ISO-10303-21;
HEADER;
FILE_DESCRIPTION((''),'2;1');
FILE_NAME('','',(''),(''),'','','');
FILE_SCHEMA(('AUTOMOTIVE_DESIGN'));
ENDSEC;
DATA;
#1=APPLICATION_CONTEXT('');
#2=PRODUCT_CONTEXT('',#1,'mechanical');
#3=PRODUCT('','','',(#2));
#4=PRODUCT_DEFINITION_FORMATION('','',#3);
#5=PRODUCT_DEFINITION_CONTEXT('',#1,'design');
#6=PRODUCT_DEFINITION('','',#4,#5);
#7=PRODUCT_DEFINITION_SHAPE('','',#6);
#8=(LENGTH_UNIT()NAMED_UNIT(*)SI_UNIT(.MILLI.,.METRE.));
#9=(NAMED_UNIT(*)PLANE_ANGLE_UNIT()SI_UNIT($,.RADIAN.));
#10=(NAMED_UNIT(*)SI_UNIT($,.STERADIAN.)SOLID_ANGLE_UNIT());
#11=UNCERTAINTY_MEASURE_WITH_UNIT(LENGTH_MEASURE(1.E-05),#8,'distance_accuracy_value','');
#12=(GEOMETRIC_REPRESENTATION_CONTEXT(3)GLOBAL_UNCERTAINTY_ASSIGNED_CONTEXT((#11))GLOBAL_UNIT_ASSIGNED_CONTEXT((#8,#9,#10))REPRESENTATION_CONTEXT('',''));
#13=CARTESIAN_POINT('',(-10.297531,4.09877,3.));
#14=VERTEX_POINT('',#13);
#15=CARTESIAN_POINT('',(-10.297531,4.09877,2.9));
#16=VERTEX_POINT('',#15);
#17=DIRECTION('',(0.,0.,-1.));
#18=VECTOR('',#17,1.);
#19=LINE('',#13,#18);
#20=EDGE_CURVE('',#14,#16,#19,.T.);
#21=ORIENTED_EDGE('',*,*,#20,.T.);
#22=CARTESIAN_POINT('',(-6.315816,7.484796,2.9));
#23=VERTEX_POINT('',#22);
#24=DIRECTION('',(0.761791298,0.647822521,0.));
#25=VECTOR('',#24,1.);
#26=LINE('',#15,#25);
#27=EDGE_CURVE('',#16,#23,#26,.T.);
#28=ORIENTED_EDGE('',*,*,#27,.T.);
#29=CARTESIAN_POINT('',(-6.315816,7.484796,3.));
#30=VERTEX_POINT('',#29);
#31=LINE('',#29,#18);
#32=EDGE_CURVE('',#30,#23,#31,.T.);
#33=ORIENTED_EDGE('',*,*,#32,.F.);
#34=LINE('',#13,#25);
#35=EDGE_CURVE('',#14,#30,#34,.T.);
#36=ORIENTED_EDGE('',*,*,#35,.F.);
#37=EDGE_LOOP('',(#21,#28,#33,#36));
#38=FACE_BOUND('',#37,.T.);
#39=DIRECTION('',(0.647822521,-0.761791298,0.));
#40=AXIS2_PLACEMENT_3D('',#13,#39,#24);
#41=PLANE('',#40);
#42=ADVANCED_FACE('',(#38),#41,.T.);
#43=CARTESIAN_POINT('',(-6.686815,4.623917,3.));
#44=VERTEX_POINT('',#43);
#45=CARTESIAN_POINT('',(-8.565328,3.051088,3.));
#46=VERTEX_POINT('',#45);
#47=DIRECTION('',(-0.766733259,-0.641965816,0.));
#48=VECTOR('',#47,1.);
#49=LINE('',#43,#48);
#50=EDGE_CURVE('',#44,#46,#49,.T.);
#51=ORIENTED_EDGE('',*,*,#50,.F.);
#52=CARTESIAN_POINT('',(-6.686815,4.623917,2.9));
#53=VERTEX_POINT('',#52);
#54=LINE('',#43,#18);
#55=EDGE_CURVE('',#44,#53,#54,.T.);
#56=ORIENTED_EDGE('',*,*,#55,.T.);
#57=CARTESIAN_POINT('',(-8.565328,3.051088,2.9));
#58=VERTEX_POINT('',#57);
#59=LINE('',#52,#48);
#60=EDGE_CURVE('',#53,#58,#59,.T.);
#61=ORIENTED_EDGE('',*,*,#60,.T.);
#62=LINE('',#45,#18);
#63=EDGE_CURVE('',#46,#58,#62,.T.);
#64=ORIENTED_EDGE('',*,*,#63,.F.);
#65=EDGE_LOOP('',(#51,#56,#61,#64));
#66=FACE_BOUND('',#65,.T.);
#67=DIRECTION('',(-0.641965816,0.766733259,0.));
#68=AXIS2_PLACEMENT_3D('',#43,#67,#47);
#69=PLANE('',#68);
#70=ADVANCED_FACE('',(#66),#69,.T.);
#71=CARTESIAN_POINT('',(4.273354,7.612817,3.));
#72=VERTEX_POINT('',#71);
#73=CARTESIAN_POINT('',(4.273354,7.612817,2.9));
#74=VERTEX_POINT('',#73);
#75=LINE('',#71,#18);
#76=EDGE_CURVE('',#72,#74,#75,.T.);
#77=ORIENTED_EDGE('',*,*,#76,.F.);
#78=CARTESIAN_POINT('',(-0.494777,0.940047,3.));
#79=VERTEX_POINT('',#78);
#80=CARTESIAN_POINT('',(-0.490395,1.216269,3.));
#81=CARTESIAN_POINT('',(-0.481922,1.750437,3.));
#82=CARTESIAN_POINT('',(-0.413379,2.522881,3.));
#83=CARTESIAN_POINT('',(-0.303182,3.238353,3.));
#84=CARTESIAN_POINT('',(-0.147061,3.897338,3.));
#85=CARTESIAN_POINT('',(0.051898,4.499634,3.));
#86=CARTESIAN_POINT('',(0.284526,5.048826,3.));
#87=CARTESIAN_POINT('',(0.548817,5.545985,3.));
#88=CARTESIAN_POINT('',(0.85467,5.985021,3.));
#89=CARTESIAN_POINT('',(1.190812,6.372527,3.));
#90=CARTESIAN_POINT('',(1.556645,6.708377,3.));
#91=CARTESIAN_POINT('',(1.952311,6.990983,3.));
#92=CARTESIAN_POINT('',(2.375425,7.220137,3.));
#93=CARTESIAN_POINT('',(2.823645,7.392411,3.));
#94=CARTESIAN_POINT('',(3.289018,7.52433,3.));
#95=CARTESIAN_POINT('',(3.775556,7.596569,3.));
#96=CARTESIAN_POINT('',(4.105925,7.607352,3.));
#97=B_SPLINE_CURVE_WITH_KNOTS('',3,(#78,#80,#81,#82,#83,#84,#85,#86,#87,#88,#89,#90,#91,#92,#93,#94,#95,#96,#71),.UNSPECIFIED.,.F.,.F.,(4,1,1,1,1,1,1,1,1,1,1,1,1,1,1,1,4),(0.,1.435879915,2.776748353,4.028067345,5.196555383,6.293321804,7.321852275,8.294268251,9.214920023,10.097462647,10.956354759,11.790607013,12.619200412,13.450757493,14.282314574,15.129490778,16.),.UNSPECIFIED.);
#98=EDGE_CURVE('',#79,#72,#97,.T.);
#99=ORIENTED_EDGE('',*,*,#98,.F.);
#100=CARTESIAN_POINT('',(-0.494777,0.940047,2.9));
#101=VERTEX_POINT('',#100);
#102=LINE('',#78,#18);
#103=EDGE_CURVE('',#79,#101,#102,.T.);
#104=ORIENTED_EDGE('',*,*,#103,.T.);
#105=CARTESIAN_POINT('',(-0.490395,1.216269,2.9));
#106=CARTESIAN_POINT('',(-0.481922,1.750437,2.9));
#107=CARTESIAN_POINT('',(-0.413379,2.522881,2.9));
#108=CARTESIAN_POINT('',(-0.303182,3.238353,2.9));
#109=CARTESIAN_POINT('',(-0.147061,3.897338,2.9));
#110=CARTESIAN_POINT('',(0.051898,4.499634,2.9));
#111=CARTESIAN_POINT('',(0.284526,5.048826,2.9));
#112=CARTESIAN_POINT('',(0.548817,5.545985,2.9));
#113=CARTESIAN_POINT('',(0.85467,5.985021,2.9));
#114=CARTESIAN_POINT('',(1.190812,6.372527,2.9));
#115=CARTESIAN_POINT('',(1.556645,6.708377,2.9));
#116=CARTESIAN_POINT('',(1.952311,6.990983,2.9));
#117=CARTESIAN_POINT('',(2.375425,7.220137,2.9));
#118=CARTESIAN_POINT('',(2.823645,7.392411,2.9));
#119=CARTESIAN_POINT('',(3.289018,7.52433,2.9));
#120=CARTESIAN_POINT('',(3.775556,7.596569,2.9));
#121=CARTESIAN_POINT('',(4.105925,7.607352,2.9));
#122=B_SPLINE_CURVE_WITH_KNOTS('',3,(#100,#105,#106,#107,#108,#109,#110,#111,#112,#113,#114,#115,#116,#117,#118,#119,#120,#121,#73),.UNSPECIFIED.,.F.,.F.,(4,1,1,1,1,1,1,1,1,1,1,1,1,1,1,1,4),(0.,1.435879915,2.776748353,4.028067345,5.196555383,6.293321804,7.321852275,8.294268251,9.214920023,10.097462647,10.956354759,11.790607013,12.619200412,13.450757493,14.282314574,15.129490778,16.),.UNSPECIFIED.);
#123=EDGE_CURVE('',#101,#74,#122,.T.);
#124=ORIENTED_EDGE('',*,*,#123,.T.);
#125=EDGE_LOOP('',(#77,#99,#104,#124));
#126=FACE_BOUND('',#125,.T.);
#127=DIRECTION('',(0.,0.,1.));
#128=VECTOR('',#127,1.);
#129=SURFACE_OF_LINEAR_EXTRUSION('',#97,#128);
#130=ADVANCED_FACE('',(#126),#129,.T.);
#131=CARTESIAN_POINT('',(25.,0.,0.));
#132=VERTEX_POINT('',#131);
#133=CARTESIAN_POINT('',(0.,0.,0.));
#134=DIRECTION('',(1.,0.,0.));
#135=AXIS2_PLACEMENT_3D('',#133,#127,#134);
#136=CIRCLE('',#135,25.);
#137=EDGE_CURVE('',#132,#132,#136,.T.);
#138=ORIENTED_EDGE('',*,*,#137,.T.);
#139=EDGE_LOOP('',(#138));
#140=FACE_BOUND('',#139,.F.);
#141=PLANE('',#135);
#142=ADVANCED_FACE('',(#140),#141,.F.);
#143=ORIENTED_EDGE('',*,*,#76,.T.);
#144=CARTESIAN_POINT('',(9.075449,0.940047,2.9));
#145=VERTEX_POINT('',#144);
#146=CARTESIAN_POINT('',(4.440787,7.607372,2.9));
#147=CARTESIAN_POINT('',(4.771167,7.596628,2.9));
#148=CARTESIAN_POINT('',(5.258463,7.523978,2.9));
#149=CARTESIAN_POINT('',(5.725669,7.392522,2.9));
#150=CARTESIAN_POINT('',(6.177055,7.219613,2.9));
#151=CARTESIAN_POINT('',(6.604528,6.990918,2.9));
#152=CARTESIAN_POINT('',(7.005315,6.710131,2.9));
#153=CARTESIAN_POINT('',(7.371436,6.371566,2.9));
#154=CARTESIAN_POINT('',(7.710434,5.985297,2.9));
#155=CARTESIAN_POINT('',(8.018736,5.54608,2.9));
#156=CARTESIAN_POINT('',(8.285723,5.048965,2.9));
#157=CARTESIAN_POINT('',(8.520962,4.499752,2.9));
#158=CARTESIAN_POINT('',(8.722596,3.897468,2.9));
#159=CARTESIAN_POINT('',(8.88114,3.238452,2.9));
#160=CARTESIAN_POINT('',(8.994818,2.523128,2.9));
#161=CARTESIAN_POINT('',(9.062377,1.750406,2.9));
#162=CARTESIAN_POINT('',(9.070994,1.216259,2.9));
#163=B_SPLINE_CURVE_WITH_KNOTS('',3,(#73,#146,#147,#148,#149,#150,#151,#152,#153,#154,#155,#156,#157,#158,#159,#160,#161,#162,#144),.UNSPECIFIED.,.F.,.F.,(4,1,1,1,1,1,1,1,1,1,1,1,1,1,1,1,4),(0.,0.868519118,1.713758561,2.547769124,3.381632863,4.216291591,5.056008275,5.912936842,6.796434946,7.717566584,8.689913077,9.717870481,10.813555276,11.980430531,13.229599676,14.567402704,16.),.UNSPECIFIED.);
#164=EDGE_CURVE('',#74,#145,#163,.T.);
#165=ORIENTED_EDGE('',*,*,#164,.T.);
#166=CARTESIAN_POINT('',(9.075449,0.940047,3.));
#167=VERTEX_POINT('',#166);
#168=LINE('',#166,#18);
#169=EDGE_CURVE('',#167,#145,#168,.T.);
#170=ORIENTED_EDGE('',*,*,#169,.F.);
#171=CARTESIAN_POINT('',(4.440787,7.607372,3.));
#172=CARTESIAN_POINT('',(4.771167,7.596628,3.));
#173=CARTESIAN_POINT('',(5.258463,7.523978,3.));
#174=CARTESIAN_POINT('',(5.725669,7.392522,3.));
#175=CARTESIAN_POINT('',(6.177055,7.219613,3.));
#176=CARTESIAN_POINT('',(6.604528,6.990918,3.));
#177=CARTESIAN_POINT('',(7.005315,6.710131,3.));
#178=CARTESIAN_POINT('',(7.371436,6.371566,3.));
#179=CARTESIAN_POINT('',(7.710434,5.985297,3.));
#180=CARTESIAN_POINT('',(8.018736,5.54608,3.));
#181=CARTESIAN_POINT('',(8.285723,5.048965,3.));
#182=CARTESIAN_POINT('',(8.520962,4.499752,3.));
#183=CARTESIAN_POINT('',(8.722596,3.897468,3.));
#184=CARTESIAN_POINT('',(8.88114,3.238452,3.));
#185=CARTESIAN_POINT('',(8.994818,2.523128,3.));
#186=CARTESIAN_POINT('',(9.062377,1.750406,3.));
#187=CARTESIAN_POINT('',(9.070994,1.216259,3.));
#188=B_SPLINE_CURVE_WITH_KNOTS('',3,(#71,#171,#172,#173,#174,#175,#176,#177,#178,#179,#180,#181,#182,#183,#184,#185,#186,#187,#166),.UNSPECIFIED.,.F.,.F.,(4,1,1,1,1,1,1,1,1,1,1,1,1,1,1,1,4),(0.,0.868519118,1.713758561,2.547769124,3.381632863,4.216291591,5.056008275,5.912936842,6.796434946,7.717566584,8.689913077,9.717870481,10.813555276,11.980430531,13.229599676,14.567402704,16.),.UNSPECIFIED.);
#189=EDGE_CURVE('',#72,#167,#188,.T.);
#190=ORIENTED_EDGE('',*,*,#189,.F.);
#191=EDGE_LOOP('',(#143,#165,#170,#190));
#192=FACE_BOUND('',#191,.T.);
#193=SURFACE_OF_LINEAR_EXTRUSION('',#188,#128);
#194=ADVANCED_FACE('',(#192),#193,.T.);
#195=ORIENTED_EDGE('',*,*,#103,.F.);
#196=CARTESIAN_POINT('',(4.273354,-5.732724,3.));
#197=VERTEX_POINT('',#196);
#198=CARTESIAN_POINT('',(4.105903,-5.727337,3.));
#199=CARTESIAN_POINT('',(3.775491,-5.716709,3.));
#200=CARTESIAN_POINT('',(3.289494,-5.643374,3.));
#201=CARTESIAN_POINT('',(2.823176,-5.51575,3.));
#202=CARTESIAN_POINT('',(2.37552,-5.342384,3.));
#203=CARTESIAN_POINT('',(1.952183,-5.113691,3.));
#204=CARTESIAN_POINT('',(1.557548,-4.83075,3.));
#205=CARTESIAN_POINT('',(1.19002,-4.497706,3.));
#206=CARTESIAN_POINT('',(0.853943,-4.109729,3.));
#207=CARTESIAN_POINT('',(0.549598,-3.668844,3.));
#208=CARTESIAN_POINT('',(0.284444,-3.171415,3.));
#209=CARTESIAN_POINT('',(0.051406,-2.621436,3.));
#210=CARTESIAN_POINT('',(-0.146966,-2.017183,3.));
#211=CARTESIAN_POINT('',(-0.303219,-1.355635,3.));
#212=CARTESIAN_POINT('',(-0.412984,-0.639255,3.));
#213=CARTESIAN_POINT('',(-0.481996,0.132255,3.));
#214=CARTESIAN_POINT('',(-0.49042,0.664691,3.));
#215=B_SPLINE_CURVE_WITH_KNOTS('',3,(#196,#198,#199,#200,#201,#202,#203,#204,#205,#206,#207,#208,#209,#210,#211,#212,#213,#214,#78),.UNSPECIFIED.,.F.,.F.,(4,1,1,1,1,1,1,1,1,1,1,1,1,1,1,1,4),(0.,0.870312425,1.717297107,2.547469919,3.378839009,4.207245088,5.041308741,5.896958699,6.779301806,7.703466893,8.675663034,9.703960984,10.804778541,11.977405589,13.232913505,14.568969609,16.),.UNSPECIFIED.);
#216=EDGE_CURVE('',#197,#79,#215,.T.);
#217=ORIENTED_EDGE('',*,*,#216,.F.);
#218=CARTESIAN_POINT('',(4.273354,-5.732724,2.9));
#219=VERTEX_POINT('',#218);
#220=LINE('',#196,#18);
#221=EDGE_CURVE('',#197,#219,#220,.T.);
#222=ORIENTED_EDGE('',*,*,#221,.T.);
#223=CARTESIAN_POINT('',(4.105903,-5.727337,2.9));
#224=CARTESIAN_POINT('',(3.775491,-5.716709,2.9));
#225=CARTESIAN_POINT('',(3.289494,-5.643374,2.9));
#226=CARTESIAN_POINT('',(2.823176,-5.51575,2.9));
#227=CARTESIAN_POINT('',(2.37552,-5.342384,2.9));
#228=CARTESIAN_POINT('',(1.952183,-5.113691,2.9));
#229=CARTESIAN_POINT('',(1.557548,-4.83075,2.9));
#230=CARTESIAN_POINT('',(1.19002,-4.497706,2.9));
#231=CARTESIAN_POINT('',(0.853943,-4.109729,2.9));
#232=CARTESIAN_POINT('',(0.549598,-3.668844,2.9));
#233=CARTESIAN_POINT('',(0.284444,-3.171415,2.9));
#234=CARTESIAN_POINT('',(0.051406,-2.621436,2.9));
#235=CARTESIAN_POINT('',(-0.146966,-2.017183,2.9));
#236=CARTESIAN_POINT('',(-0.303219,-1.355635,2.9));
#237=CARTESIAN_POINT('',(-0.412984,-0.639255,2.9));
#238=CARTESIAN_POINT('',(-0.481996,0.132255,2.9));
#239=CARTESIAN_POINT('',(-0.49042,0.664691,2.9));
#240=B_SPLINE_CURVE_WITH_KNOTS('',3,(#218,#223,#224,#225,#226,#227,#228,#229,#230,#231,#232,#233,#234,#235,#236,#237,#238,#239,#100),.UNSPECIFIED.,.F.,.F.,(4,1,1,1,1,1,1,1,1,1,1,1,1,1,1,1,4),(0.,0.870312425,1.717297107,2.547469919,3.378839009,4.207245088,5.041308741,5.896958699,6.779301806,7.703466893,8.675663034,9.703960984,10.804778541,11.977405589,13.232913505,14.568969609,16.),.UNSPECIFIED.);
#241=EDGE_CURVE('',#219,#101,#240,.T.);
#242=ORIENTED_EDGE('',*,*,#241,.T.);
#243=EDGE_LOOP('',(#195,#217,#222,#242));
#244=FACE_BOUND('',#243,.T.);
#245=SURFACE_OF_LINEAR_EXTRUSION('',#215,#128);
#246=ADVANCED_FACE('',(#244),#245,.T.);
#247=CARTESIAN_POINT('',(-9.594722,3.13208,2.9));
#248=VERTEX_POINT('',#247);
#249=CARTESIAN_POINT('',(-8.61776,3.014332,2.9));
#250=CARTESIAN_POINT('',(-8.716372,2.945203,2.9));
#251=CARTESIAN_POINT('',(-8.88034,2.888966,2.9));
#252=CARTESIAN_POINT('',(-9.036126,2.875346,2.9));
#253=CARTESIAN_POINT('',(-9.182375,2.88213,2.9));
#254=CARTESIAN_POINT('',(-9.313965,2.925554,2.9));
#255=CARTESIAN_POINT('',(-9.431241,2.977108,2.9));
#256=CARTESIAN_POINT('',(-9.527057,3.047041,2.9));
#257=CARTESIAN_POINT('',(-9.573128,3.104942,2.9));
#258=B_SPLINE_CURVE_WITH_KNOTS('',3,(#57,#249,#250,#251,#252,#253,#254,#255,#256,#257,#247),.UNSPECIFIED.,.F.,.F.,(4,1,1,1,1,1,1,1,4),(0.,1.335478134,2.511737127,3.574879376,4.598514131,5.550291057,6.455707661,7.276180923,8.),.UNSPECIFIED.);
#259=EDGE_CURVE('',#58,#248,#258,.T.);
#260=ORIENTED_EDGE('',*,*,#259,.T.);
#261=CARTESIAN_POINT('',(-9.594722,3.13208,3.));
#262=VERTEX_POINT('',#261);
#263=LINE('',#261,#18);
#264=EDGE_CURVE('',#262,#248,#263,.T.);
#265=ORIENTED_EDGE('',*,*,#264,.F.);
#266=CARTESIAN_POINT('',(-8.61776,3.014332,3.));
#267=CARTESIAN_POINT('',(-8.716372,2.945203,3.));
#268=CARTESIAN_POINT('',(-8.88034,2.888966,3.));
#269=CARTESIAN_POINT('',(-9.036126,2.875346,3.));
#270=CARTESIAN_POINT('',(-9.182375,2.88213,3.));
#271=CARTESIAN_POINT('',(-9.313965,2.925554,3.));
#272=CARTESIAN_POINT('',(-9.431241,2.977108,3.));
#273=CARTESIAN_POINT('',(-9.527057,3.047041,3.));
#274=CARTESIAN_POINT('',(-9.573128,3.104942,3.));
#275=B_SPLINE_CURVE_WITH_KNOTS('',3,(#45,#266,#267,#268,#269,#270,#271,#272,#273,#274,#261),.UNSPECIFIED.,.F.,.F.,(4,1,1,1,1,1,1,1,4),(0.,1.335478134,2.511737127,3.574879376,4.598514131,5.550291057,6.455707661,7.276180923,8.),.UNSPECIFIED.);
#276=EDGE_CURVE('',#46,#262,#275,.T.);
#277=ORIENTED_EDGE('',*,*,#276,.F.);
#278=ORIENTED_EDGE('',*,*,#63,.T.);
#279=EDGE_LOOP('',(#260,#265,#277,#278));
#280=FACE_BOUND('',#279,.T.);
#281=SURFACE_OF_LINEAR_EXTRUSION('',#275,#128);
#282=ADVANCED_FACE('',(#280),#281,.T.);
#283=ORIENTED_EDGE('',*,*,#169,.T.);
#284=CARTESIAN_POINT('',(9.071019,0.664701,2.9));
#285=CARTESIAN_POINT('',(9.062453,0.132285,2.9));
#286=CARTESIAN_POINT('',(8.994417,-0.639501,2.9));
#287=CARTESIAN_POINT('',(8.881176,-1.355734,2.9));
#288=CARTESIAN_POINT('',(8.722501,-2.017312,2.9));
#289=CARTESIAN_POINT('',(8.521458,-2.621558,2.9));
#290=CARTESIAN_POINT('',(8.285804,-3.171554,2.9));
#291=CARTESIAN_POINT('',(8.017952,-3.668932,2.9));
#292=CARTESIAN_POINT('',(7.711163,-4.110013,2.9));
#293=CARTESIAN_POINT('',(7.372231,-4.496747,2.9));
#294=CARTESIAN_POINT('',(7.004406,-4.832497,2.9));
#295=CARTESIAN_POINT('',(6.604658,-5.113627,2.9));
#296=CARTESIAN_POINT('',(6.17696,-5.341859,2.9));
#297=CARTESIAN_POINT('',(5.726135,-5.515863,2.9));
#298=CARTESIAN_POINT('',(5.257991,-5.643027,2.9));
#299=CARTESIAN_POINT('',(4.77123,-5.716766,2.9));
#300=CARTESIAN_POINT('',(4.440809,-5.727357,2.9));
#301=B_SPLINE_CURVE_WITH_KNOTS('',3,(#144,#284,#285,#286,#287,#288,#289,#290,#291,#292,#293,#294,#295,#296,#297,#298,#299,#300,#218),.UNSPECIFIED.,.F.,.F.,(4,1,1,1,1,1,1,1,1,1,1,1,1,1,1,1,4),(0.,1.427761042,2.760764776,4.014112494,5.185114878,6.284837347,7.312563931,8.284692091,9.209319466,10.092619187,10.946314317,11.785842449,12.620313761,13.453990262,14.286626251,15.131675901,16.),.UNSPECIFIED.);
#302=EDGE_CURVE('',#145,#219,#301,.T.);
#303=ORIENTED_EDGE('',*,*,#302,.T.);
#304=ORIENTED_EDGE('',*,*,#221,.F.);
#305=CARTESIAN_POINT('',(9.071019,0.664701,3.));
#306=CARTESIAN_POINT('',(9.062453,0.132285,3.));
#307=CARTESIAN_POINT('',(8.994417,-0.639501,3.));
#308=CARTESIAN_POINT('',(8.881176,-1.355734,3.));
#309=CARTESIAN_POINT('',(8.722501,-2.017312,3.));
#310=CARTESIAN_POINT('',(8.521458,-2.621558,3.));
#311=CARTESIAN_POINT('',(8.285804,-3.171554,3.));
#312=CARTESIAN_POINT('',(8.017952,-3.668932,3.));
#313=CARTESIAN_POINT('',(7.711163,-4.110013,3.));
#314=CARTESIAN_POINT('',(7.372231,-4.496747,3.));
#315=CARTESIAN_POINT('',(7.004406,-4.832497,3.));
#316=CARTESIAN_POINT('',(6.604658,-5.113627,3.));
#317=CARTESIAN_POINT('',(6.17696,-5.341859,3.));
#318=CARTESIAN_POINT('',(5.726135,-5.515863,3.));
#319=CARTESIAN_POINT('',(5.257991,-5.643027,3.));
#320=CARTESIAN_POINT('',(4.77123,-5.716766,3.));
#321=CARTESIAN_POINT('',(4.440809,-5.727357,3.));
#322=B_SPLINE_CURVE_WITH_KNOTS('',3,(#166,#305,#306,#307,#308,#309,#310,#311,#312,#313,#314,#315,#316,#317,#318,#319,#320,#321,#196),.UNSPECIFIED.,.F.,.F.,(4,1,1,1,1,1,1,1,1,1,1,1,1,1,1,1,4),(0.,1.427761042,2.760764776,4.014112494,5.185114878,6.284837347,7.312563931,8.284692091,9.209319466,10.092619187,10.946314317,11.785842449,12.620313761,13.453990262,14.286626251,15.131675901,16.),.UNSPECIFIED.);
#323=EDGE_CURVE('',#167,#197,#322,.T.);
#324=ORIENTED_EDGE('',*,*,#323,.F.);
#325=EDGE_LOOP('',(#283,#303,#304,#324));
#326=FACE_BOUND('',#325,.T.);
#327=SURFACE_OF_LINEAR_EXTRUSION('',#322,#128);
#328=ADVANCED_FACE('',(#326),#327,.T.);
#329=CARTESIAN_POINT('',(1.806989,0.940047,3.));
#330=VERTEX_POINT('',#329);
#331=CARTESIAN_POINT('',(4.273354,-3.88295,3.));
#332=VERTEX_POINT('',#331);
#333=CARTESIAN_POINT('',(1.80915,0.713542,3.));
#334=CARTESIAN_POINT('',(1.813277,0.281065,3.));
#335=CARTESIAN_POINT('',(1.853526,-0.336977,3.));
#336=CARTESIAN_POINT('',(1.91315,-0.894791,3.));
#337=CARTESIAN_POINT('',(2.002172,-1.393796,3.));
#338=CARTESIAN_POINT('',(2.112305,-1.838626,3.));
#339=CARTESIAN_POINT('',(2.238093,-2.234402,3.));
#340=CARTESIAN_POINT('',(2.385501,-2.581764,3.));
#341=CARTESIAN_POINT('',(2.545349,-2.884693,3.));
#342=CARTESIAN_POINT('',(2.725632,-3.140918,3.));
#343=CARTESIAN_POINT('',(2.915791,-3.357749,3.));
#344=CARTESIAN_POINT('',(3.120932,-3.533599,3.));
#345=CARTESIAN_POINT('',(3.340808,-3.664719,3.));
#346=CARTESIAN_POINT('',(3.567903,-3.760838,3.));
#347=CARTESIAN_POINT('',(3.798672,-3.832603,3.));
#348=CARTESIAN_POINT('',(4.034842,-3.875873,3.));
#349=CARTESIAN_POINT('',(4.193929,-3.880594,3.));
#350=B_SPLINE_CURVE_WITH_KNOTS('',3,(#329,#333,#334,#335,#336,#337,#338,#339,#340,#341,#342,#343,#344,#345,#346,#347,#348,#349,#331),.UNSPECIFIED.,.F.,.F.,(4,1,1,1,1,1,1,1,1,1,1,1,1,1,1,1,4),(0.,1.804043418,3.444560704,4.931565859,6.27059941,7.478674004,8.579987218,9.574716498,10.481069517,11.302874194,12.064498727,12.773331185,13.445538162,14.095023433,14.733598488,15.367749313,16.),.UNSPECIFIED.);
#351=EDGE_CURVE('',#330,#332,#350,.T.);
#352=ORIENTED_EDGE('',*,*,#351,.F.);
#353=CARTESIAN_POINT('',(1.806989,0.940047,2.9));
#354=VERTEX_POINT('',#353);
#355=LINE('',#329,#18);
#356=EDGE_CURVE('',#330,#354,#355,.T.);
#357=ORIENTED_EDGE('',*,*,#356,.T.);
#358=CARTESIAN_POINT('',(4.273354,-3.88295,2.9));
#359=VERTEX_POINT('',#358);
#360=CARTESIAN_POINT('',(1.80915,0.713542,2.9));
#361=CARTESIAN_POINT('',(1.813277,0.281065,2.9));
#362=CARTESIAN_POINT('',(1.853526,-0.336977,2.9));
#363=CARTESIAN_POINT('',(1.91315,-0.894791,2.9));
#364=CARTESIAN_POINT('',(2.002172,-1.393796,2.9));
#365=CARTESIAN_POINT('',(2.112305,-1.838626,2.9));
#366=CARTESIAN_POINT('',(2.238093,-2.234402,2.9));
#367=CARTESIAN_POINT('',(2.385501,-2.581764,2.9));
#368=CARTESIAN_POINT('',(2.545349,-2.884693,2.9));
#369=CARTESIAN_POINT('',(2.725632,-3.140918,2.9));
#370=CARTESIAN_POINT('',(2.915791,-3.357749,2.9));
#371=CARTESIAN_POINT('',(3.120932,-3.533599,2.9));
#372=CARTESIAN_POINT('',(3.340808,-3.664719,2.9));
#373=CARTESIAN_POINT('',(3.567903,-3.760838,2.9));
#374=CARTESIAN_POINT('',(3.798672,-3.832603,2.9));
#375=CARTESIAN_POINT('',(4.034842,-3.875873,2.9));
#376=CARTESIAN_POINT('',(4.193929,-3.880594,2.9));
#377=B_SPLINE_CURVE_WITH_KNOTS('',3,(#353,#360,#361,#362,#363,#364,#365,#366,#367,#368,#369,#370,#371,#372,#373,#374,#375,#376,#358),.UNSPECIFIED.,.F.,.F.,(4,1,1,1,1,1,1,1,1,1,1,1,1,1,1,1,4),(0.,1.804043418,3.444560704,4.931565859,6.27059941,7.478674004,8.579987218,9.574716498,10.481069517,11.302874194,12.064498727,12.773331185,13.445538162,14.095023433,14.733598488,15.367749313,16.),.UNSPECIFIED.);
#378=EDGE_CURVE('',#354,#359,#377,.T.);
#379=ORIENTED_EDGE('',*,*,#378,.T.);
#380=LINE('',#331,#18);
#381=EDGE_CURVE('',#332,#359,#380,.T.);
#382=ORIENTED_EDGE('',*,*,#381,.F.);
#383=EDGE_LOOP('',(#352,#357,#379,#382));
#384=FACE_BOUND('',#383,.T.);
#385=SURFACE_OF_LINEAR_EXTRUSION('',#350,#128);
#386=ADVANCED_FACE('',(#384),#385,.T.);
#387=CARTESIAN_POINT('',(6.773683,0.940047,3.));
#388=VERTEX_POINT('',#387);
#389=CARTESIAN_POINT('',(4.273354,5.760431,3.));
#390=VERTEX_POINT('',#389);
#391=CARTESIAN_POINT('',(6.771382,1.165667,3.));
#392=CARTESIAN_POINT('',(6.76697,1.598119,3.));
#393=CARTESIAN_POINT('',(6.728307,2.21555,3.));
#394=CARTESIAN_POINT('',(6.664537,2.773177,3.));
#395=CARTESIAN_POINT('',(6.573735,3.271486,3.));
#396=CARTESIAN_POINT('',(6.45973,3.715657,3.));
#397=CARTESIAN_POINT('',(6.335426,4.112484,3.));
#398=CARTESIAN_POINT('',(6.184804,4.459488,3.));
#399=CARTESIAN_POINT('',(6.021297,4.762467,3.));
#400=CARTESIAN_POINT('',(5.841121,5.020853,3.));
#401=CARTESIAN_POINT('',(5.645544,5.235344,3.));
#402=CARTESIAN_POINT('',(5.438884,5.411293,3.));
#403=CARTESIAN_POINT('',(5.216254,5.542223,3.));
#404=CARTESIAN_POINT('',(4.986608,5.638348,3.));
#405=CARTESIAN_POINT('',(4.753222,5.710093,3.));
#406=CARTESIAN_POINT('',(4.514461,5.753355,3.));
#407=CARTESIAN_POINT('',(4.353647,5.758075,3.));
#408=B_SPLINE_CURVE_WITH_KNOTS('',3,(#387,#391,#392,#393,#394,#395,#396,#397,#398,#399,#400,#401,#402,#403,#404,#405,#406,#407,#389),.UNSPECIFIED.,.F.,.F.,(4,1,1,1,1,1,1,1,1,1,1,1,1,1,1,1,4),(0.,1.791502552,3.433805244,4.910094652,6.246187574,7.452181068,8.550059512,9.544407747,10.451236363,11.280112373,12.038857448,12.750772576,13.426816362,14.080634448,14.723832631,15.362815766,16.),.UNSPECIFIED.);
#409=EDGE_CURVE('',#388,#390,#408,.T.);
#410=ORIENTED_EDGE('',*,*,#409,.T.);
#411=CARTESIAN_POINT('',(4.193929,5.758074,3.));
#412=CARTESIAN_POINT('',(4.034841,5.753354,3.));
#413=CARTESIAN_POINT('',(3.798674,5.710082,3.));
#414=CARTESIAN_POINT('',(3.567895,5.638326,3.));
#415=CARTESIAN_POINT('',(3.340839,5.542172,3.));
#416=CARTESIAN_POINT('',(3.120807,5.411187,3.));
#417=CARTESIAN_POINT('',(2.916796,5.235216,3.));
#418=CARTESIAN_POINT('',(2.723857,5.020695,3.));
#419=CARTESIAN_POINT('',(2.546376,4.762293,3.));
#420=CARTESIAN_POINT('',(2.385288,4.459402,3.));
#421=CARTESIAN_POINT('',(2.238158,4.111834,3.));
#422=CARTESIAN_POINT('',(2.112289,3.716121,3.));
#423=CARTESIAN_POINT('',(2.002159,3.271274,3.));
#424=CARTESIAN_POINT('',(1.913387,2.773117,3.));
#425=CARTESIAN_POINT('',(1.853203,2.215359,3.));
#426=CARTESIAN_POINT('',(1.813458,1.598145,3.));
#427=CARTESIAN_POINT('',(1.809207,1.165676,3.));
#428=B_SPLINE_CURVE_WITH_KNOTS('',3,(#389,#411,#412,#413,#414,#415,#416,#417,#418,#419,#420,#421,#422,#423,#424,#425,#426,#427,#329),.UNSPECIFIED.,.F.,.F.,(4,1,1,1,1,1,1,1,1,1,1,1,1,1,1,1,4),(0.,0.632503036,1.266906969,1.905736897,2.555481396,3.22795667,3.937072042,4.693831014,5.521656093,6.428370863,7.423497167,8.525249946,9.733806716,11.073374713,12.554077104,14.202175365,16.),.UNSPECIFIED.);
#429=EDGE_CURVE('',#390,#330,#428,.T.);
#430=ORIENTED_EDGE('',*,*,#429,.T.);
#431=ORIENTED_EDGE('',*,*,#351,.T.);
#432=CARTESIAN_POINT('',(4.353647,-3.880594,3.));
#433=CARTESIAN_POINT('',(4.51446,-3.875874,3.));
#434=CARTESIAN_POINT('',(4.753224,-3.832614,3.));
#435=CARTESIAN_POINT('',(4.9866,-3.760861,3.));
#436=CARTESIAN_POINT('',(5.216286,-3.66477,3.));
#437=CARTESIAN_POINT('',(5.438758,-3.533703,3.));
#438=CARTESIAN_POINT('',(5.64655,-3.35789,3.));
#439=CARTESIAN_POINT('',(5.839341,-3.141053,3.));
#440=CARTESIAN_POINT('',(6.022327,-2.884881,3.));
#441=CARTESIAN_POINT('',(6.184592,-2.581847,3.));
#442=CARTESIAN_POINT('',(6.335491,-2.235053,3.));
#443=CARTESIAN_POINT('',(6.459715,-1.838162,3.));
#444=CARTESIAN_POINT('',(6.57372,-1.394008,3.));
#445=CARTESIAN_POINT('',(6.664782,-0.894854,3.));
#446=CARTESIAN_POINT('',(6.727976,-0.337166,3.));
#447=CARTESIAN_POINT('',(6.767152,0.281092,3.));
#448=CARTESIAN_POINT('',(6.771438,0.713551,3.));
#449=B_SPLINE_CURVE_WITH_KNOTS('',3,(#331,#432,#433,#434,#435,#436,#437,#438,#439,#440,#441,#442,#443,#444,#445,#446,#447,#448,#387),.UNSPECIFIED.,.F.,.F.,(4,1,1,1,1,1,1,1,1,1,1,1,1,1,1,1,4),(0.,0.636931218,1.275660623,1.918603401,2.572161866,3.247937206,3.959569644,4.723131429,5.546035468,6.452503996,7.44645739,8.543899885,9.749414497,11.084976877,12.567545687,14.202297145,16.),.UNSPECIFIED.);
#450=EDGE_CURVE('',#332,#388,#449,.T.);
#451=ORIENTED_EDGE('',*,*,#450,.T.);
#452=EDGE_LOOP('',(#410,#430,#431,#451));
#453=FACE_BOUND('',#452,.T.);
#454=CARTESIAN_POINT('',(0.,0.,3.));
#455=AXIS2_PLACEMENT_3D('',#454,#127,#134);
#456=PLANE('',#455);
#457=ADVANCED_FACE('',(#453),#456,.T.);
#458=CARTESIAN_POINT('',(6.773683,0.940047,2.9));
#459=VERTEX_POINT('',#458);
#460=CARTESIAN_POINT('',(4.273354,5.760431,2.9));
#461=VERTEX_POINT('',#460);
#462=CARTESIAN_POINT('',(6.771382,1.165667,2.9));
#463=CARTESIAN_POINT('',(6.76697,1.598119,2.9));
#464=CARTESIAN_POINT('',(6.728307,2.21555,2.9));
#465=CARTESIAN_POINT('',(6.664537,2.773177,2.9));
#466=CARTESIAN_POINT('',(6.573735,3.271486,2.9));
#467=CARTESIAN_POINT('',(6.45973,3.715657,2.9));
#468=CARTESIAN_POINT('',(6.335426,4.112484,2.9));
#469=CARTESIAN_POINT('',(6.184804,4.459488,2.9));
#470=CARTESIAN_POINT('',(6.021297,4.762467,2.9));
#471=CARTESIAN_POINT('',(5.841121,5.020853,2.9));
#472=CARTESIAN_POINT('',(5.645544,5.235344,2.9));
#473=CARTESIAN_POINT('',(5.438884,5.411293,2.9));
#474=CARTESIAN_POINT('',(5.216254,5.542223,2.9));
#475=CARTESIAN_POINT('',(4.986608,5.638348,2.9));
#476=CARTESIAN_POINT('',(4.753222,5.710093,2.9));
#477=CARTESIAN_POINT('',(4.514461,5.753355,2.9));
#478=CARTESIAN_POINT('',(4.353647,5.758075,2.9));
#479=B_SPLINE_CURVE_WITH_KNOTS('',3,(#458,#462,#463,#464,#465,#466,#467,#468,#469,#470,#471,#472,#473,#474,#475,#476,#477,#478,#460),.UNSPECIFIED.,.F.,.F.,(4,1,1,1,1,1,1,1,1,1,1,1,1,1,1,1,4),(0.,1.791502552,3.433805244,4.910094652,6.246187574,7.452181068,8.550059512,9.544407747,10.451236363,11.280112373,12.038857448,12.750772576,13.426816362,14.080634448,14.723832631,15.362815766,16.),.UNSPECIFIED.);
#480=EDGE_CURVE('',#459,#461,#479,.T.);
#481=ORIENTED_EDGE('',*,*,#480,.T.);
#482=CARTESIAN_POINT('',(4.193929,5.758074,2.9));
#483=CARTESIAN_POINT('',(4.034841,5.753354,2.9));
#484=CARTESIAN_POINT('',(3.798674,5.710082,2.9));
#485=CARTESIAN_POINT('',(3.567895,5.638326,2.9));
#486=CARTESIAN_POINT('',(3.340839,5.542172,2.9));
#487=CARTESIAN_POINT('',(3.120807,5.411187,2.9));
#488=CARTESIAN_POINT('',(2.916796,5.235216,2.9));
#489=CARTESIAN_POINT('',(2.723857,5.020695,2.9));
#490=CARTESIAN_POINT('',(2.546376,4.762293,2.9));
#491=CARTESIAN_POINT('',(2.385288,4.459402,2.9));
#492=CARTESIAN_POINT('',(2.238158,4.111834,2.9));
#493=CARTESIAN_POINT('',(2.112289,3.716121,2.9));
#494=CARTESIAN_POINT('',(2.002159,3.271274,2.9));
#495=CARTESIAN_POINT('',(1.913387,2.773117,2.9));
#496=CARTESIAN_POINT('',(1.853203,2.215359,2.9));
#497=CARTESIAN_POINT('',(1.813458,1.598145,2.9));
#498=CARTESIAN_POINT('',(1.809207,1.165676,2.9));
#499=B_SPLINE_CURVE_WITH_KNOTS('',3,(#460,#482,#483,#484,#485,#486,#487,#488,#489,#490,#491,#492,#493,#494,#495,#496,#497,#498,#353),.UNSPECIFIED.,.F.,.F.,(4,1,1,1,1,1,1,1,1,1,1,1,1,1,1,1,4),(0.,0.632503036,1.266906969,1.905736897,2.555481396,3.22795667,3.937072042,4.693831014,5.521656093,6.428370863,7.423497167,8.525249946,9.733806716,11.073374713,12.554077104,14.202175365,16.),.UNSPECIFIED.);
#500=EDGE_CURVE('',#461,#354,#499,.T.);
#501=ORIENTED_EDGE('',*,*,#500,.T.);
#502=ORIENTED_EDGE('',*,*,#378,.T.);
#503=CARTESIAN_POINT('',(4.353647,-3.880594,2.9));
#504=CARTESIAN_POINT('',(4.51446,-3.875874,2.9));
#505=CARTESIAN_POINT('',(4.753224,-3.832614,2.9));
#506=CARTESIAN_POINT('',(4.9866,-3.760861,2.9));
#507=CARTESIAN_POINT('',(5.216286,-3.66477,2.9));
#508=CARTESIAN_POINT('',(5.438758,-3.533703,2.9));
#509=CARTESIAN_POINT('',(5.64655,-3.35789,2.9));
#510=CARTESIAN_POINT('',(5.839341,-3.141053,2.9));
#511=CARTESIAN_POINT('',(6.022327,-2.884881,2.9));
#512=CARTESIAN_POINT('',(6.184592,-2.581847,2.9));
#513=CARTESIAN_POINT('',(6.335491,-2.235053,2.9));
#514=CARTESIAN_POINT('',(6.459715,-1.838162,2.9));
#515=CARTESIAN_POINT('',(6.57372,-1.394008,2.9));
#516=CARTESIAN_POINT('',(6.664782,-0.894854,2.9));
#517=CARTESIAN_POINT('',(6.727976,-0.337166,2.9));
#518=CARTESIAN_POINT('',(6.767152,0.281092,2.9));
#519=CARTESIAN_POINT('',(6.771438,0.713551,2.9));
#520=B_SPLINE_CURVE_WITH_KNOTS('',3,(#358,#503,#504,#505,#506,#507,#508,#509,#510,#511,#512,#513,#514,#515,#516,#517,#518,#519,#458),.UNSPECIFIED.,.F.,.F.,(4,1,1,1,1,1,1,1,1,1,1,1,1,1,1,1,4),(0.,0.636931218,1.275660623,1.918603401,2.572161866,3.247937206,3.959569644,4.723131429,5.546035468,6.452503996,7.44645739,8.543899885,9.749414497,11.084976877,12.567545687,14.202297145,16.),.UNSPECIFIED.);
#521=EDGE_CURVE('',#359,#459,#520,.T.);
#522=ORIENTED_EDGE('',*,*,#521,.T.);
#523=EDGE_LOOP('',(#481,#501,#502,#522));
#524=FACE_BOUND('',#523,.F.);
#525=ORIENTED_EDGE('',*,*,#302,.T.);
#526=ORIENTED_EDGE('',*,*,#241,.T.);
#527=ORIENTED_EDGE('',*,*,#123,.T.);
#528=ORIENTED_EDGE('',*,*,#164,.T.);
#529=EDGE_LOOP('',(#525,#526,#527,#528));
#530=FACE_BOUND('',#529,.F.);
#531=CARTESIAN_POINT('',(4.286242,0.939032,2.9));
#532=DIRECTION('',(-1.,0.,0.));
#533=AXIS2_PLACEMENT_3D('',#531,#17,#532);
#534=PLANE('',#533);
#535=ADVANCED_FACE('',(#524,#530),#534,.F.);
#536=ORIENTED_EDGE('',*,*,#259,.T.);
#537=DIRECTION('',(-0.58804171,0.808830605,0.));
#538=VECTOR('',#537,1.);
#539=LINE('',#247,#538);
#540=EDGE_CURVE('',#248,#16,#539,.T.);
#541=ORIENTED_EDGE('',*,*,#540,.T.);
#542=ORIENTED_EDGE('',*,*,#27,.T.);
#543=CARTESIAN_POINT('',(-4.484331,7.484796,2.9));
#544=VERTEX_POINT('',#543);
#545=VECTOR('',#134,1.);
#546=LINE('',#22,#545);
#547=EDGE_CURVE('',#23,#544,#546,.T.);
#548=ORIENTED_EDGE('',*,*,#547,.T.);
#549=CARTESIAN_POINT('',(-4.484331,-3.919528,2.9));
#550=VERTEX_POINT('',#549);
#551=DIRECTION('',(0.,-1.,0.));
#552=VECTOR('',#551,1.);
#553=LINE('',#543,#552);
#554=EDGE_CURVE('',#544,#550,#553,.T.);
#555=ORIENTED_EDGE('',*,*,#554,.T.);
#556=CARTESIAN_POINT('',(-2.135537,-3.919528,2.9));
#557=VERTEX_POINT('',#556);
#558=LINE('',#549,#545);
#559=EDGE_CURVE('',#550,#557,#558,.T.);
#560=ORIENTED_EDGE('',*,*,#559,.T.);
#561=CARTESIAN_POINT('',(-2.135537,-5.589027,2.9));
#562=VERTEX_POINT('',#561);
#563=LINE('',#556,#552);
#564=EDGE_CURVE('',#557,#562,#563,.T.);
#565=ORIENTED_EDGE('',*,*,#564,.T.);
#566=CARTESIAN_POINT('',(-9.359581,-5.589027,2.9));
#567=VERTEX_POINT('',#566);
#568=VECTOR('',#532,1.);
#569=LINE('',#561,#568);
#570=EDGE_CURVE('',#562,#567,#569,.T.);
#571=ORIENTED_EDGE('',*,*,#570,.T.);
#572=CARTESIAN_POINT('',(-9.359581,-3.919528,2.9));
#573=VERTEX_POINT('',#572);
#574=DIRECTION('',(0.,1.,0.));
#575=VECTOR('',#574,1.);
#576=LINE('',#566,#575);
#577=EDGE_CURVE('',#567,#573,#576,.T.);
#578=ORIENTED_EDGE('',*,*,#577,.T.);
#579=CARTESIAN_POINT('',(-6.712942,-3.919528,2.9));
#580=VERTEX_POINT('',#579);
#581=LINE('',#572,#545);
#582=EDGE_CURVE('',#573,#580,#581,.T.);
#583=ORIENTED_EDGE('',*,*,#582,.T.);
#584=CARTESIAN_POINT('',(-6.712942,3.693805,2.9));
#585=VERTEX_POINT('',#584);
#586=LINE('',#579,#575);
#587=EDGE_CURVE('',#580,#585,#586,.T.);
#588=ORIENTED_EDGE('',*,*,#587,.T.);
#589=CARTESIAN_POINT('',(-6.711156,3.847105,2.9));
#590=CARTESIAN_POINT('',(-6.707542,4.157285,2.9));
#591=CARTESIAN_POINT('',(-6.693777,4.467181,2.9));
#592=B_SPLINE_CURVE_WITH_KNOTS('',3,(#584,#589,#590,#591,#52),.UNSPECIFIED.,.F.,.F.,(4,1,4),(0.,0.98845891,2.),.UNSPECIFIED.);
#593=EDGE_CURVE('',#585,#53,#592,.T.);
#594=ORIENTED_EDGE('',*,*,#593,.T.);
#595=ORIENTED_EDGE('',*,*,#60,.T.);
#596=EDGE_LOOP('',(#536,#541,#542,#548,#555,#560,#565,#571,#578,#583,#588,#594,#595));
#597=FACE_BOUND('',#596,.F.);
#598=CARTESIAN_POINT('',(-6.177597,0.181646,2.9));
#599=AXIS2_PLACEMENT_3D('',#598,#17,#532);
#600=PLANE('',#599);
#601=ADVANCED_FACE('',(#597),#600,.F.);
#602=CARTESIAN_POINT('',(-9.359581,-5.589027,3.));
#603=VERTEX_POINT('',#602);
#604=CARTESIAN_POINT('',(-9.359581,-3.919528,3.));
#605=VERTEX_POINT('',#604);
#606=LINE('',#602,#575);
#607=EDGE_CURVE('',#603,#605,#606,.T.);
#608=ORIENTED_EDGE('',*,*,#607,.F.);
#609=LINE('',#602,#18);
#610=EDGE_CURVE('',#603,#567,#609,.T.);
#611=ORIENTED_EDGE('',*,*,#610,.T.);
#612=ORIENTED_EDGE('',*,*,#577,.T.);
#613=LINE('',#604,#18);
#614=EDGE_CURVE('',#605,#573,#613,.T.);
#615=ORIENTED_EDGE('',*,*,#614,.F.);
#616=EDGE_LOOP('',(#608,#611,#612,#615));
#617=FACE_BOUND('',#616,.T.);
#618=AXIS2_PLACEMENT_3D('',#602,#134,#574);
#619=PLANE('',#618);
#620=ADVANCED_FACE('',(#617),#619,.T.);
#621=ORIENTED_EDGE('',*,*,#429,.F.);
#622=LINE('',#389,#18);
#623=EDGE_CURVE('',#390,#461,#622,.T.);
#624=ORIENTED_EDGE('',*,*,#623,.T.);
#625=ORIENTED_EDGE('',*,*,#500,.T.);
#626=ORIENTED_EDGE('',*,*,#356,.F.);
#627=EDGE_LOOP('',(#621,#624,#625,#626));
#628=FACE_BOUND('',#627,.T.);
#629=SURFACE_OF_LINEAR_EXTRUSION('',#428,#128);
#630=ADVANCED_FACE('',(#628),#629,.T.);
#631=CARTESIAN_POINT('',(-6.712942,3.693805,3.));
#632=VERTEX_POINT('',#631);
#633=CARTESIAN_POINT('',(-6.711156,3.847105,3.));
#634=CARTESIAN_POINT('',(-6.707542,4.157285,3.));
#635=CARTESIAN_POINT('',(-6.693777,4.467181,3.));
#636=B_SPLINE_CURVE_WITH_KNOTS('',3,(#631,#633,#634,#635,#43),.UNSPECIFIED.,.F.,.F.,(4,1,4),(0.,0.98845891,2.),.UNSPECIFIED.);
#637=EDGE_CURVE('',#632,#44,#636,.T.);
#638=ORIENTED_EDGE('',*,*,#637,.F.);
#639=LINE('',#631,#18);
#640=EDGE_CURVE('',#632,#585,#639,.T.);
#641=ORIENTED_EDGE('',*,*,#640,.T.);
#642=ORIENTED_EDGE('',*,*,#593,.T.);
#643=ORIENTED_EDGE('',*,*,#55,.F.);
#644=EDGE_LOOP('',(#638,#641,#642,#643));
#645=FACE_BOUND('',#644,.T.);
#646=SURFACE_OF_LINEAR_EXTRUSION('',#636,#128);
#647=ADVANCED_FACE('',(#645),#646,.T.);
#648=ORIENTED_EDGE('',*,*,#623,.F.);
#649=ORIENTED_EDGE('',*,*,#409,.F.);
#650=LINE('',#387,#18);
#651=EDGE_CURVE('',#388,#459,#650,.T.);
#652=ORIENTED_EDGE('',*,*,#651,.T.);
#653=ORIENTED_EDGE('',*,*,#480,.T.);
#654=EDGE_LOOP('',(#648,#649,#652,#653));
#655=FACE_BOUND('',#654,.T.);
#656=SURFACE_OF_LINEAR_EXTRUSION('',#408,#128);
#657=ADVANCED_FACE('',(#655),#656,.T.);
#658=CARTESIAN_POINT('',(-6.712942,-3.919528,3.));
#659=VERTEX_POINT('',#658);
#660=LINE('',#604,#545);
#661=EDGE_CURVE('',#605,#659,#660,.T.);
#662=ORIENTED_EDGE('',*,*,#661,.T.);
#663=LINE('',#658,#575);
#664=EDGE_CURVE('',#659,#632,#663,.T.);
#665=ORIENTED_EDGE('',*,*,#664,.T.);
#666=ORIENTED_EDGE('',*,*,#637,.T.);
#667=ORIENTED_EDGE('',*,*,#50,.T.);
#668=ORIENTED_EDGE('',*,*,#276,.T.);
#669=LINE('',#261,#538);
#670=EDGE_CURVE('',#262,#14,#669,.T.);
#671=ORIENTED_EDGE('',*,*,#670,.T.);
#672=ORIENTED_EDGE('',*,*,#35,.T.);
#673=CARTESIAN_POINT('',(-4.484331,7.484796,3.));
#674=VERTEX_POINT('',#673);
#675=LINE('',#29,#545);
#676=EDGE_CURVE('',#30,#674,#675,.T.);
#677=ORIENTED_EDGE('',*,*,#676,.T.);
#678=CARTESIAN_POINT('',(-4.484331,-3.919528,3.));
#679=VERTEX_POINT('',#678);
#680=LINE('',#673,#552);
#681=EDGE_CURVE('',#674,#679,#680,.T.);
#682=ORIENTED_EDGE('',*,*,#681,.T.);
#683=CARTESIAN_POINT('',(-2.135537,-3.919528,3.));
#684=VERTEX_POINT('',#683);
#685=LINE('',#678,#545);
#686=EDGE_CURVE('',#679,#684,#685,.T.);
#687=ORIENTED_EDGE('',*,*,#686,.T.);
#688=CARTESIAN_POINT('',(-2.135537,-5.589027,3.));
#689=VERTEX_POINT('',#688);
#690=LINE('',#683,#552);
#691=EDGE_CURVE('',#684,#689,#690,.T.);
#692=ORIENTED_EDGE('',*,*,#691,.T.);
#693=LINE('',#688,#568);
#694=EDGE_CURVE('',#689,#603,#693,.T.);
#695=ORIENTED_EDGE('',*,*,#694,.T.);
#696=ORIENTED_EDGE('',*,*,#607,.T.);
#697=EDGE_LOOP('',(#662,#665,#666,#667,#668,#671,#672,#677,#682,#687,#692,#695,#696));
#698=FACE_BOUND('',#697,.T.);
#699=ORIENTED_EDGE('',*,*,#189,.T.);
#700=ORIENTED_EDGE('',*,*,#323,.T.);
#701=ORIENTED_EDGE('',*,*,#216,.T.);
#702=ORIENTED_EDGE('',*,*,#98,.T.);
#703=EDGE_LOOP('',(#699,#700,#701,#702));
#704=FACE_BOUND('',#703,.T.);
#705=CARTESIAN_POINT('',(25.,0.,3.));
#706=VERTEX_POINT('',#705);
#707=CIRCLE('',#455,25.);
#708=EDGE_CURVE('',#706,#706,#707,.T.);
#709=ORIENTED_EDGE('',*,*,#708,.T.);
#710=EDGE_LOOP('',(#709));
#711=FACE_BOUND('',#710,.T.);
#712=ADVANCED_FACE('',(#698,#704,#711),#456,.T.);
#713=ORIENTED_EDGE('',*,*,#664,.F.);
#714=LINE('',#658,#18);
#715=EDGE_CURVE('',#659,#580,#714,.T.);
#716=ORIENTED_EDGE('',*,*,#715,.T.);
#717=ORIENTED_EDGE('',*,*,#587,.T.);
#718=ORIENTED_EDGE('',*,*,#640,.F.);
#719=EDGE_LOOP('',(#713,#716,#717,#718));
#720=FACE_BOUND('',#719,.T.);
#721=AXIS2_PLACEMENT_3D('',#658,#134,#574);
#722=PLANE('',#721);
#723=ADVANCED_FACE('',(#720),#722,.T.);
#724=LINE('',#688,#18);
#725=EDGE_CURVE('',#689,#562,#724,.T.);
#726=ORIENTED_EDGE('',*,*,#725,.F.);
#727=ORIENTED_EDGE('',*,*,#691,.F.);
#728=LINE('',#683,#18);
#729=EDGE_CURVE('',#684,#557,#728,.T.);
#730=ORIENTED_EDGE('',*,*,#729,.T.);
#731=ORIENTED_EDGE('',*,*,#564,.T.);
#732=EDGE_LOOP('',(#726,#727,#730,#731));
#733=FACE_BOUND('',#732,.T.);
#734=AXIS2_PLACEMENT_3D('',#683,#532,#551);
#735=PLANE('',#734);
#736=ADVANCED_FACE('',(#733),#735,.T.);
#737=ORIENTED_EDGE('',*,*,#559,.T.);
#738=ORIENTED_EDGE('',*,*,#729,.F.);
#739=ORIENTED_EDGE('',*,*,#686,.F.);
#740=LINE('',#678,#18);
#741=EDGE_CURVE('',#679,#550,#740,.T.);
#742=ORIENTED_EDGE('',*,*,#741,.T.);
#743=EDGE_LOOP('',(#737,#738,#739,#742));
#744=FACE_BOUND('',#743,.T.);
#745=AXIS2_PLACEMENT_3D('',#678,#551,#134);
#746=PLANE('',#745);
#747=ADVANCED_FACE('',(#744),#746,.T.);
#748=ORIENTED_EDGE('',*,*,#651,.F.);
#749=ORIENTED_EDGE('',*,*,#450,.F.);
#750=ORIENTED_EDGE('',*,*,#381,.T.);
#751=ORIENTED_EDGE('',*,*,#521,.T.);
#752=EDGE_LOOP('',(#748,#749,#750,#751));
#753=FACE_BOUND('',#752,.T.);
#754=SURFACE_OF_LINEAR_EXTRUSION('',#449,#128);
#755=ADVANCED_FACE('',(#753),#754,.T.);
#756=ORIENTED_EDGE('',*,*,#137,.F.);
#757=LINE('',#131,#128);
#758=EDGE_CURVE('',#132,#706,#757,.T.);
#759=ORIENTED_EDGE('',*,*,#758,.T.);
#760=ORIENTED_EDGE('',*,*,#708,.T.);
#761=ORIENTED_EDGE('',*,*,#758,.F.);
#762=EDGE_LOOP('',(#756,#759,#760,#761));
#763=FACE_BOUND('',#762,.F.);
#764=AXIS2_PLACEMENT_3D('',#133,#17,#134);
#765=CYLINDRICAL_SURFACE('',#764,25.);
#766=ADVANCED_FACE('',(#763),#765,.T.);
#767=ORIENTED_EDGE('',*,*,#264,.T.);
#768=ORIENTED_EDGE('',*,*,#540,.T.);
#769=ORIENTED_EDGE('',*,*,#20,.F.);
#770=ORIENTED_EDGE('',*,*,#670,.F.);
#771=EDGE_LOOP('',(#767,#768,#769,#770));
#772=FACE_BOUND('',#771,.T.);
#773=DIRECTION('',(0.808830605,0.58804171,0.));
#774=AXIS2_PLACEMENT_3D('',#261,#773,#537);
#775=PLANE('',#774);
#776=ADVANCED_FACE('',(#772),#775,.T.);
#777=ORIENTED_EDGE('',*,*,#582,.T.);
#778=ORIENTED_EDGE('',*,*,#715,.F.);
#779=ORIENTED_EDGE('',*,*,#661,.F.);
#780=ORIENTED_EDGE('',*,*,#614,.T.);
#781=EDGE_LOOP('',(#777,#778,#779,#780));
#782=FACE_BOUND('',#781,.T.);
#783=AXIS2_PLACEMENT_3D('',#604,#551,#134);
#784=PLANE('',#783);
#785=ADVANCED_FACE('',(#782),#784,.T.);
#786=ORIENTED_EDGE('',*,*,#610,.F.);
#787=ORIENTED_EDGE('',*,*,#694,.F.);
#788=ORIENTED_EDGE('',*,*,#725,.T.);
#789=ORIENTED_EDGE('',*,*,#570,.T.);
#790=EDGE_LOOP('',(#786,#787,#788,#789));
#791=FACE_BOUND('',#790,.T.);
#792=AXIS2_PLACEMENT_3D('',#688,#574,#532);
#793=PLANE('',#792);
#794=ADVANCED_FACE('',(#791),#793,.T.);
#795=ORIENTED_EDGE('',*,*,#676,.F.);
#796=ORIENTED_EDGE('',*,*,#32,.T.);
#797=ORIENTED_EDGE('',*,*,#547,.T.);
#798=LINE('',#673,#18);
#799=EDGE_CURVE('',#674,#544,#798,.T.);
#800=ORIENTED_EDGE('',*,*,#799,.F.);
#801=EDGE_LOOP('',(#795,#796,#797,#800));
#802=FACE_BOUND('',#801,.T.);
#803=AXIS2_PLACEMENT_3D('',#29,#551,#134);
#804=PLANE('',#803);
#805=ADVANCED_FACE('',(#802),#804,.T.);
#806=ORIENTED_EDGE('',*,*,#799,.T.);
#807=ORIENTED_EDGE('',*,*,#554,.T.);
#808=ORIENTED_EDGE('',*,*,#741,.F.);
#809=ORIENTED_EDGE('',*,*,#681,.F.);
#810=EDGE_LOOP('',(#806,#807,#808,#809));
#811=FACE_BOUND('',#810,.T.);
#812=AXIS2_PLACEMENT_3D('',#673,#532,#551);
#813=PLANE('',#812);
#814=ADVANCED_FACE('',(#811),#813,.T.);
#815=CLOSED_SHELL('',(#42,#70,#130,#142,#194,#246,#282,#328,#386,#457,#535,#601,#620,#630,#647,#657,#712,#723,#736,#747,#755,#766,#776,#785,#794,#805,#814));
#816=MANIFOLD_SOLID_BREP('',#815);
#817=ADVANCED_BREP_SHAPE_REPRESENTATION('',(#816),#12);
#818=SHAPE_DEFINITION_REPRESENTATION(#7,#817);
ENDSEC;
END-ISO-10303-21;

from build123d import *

# Parameters (mm, degrees)
SKETCH1_R           = 25
BOSS_EXTRUDE1_DEPTH = 3
CUT_EXTRUDE1_DEPTH  = 0.1


with BuildPart() as part:
    # Sketch1 → Boss-Extrude1 (new body)
    with BuildSketch(Plane(origin=(0, 0, 0), x_dir=(0, 1, 0), z_dir=(0, 0, 1))):
        with Locations(Location((0, 0, 0), (0, 0, 270))):
            Circle(SKETCH1_R)
    extrude(amount=BOSS_EXTRUDE1_DEPTH)

    # Sketch3 → Cut-Extrude1 (cut)
    # profile 1 of 2: a face of its own
    with BuildSketch(Plane.XY.offset(3)):
        with BuildLine():
            Line((-2.135536589, -3.91952773), (-2.135536589, -5.589026656))
            Line((-2.135536589, -5.589026656), (-9.359581237, -5.589026656))
            Line((-9.359581237, -5.589026656), (-9.359581237, -3.91952773))
            Line((-9.359581237, -3.91952773), (-6.712942094, -3.91952773))
            Line((-6.712942094, -3.91952773), (-6.712942094, 3.6938054))
            add(Edge.make_bspline(
                [(-6.712942094, 3.6938054), (-6.711155885, 3.847105408), (-6.707541754, 4.157285237), (-6.693777105, 4.467181218), (-6.686815351, 4.623917478)],
                knots=[0, 0, 0, 0, 0.98845891, 2, 2, 2, 2], degree=3))
            Line((-6.686815351, 4.623917478), (-8.565328227, 3.051087504))
            add(Edge.make_bspline(
                [(-8.565328227, 3.051087504), (-8.617759942, 3.014331802), (-8.716372329, 2.945202508), (-8.880339811, 2.88896631), (-9.036125684, 2.875345654), (-9.18237461, 2.882130045), (-9.313965386, 2.925554364), (-9.431240682, 2.977107644), (-9.527057416, 3.04704147), (-9.573128253, 3.104942057), (-9.594721931, 3.132080409)],
                knots=[0, 0, 0, 0, 1.335478134, 2.511737127, 3.574879376, 4.598514131, 5.550291057, 6.455707661, 7.276180923, 8, 8, 8, 8], degree=3))
            Line((-9.594721931, 3.132080409), (-10.297531338, 4.098769928))
            Line((-10.297531338, 4.098769928), (-6.315815589, 7.484795919))
            Line((-6.315815589, 7.484795919), (-4.484330852, 7.484795919))
            Line((-4.484330852, 7.484795919), (-4.484330852, -3.91952773))
            Line((-4.484330852, -3.91952773), (-2.135536589, -3.91952773))
        make_face()
    # profile 2 of 2: a face of its own
    with BuildSketch(Plane.XY.offset(3)):
        with BuildLine():
            add(Edge.make_bspline(
                [(9.075449156, 0.940046608), (9.071019121, 0.664701426), (9.062453061, 0.132285105), (8.994417033, -0.639500558), (8.881176325, -1.355733726), (8.722500681, -2.017311728), (8.521457839, -2.6215582), (8.285804124, -3.171554325), (8.017952132, -3.668932341), (7.711163277, -4.110013082), (7.372230822, -4.49674732), (7.00440566, -4.832496752), (6.604657821, -5.113627074), (6.176960126, -5.341859495), (5.726135225, -5.515862981), (5.257991212, -5.64302657), (4.771230439, -5.71676622), (4.440808731, -5.727356618), (4.273353654, -5.732723747)],
                knots=[0, 0, 0, 0, 1.427761042, 2.760764776, 4.014112494, 5.185114878, 6.284837347, 7.312563931, 8.284692091, 9.209319466, 10.092619187, 10.946314317, 11.785842449, 12.620313761, 13.453990262, 14.286626251, 15.131675901, 16, 16, 16, 16], degree=3))
            add(Edge.make_bspline(
                [(4.273353654, -5.732723747), (4.105903463, -5.727337226), (3.775491393, -5.716708563), (3.28949381, -5.643374433), (2.823176442, -5.515750192), (2.375519546, -5.342384412), (1.952183128, -5.113690706), (1.557547903, -4.830750182), (1.190020452, -4.497705935), (0.853943156, -4.109729476), (0.54959844, -3.66884397), (0.284444452, -3.171414662), (0.051406307, -2.621436329), (-0.146966158, -2.017182795), (-0.303219138, -1.355635346), (-0.412983668, -0.639255268), (-0.481995779, 0.132254791), (-0.490420263, 0.664691092), (-0.494777081, 0.940046608)],
                knots=[0, 0, 0, 0, 0.870312425, 1.717297107, 2.547469919, 3.378839009, 4.207245088, 5.041308741, 5.896958699, 6.779301806, 7.703466893, 8.675663034, 9.703960984, 10.804778541, 11.977405589, 13.232913505, 14.568969609, 16, 16, 16, 16], degree=3))
            add(Edge.make_bspline(
                [(-0.494777081, 0.940046608), (-0.490395372, 1.216269227), (-0.48192189, 1.750436948), (-0.413378742, 2.522881329), (-0.303182258, 3.238353368), (-0.14706114, 3.897338419), (0.051897585, 4.499634222), (0.284526412, 5.048825866), (0.54881735, 5.545984912), (0.854669604, 5.98502091), (1.190812097, 6.372527453), (1.556644922, 6.708377286), (1.952311151, 6.990983264), (2.375424524, 7.220136663), (2.823644607, 7.392411155), (3.289018042, 7.524330183), (3.775555765, 7.59656853), (4.105925113, 7.607351991), (4.273353654, 7.612816963)],
                knots=[0, 0, 0, 0, 1.435879915, 2.776748353, 4.028067345, 5.196555383, 6.293321804, 7.321852275, 8.294268251, 9.214920023, 10.097462647, 10.956354759, 11.790607013, 12.619200412, 13.450757493, 14.282314574, 15.129490778, 16, 16, 16, 16], degree=3))
            add(Edge.make_bspline(
                [(4.273353654, 7.612816963), (4.440787348, 7.607371921), (4.771166865, 7.596627784), (5.258463213, 7.523978149), (5.725669157, 7.392522252), (6.177055392, 7.219613418), (6.60452845, 6.990917769), (7.005314836, 6.710131059), (7.371436101, 6.371566293), (7.710433994, 5.985297187), (8.018735703, 5.546079999), (8.285722605, 5.048964987), (8.520961624, 4.499752358), (8.722595975, 3.897468449), (8.881140026, 3.238452128), (8.994817843, 2.52312835), (9.06237705, 1.750406214), (9.070993512, 1.216258751), (9.075449156, 0.940046608)],
                knots=[0, 0, 0, 0, 0.868519118, 1.713758561, 2.547769124, 3.381632863, 4.216291591, 5.056008275, 5.912936842, 6.796434946, 7.717566584, 8.689913077, 9.717870481, 10.813555276, 11.980430531, 13.229599676, 14.567402704, 16, 16, 16, 16], degree=3))
        make_face()
        with BuildLine():
            add(Edge.make_bspline(
                [(6.773683032, 0.940046608), (6.77138159, 1.165667325), (6.766970374, 1.598118622), (6.728307454, 2.215549989), (6.664537347, 2.773177449), (6.573734771, 3.271486255), (6.459730373, 3.715657268), (6.335426284, 4.112484148), (6.184804403, 4.459488084), (6.021296706, 4.762466776), (5.841121054, 5.020853425), (5.645543659, 5.235343664), (5.438884475, 5.411292967), (5.216254332, 5.542223154), (4.986608258, 5.638348235), (4.753221726, 5.71009288), (4.514460938, 5.753355227), (4.353647187, 5.758074514), (4.273353654, 5.760430831)],
                knots=[0, 0, 0, 0, 1.791502552, 3.433805244, 4.910094652, 6.246187574, 7.452181068, 8.550059512, 9.544407747, 10.451236363, 11.280112373, 12.038857448, 12.750772576, 13.426816362, 14.080634448, 14.723832631, 15.362815766, 16, 16, 16, 16], degree=3))
            add(Edge.make_bspline(
                [(4.273353654, 5.760430831), (4.193929125, 5.758074214), (4.034841366, 5.753353899), (3.79867417, 5.710082057), (3.567895178, 5.638325997), (3.34083945, 5.542172118), (3.120806553, 5.411186913), (2.916795755, 5.235215966), (2.723856864, 5.020694951), (2.546375935, 4.762292593), (2.385287867, 4.459402243), (2.238157676, 4.111833538), (2.112289385, 3.71612128), (2.002158784, 3.271274037), (1.913387308, 2.773117016), (1.853202684, 2.215358755), (1.813457884, 1.598145015), (1.809206893, 1.165676374), (1.806989044, 0.940046608)],
                knots=[0, 0, 0, 0, 0.632503036, 1.266906969, 1.905736897, 2.555481396, 3.22795667, 3.937072042, 4.693831014, 5.521656093, 6.428370863, 7.423497167, 8.525249946, 9.733806716, 11.073374713, 12.554077104, 14.202175365, 16, 16, 16, 16], degree=3))
            add(Edge.make_bspline(
                [(1.806989044, 0.940046608), (1.809150434, 0.713542452), (1.813277296, 0.281065434), (1.853525525, -0.336977132), (1.913149895, -0.894791395), (2.002172463, -1.393796121), (2.112305148, -1.838626066), (2.238092594, -2.234402012), (2.385500536, -2.581763606), (2.545349233, -2.884693439), (2.725631944, -3.140918115), (2.915791122, -3.357748528), (3.120931921, -3.533598875), (3.340807832, -3.664718687), (3.56790337, -3.760838431), (3.798672018, -3.832603361), (4.034841901, -3.875872898), (4.193929303, -3.88059352), (4.273353654, -3.882950289)],
                knots=[0, 0, 0, 0, 1.804043418, 3.444560704, 4.931565859, 6.27059941, 7.478674004, 8.579987218, 9.574716498, 10.481069517, 11.302874194, 12.064498727, 12.773331185, 13.445538162, 14.095023433, 14.733598488, 15.367749313, 16, 16, 16, 16], degree=3))
            add(Edge.make_bspline(
                [(4.273353654, -3.882950289), (4.353647007, -3.880593815), (4.514460398, -3.875874216), (4.753223901, -3.832614228), (4.986599988, -3.760860505), (5.21628622, -3.664770329), (5.438758244, -3.533702706), (5.646550427, -3.357890125), (5.839340697, -3.14105262), (6.022326866, -2.884880989), (6.184591644, -2.581847144), (6.335491123, -2.235053157), (6.459714851, -1.838161923), (6.573720226, -1.394008202), (6.664781663, -0.894853631), (6.727975633, -0.337166314), (6.767152111, 0.281091524), (6.771438232, 0.713551419), (6.773683032, 0.940046608)],
                knots=[0, 0, 0, 0, 0.636931218, 1.275660623, 1.918603401, 2.572161866, 3.247937206, 3.959569644, 4.723131429, 5.546035468, 6.452503996, 7.44645739, 8.543899885, 9.749414497, 11.084976877, 12.567545687, 14.202297145, 16, 16, 16, 16], degree=3))
        make_face(mode=Mode.SUBTRACT)
    extrude(amount=-CUT_EXTRUDE1_DEPTH, mode=Mode.SUBTRACT)


solid = part.part
